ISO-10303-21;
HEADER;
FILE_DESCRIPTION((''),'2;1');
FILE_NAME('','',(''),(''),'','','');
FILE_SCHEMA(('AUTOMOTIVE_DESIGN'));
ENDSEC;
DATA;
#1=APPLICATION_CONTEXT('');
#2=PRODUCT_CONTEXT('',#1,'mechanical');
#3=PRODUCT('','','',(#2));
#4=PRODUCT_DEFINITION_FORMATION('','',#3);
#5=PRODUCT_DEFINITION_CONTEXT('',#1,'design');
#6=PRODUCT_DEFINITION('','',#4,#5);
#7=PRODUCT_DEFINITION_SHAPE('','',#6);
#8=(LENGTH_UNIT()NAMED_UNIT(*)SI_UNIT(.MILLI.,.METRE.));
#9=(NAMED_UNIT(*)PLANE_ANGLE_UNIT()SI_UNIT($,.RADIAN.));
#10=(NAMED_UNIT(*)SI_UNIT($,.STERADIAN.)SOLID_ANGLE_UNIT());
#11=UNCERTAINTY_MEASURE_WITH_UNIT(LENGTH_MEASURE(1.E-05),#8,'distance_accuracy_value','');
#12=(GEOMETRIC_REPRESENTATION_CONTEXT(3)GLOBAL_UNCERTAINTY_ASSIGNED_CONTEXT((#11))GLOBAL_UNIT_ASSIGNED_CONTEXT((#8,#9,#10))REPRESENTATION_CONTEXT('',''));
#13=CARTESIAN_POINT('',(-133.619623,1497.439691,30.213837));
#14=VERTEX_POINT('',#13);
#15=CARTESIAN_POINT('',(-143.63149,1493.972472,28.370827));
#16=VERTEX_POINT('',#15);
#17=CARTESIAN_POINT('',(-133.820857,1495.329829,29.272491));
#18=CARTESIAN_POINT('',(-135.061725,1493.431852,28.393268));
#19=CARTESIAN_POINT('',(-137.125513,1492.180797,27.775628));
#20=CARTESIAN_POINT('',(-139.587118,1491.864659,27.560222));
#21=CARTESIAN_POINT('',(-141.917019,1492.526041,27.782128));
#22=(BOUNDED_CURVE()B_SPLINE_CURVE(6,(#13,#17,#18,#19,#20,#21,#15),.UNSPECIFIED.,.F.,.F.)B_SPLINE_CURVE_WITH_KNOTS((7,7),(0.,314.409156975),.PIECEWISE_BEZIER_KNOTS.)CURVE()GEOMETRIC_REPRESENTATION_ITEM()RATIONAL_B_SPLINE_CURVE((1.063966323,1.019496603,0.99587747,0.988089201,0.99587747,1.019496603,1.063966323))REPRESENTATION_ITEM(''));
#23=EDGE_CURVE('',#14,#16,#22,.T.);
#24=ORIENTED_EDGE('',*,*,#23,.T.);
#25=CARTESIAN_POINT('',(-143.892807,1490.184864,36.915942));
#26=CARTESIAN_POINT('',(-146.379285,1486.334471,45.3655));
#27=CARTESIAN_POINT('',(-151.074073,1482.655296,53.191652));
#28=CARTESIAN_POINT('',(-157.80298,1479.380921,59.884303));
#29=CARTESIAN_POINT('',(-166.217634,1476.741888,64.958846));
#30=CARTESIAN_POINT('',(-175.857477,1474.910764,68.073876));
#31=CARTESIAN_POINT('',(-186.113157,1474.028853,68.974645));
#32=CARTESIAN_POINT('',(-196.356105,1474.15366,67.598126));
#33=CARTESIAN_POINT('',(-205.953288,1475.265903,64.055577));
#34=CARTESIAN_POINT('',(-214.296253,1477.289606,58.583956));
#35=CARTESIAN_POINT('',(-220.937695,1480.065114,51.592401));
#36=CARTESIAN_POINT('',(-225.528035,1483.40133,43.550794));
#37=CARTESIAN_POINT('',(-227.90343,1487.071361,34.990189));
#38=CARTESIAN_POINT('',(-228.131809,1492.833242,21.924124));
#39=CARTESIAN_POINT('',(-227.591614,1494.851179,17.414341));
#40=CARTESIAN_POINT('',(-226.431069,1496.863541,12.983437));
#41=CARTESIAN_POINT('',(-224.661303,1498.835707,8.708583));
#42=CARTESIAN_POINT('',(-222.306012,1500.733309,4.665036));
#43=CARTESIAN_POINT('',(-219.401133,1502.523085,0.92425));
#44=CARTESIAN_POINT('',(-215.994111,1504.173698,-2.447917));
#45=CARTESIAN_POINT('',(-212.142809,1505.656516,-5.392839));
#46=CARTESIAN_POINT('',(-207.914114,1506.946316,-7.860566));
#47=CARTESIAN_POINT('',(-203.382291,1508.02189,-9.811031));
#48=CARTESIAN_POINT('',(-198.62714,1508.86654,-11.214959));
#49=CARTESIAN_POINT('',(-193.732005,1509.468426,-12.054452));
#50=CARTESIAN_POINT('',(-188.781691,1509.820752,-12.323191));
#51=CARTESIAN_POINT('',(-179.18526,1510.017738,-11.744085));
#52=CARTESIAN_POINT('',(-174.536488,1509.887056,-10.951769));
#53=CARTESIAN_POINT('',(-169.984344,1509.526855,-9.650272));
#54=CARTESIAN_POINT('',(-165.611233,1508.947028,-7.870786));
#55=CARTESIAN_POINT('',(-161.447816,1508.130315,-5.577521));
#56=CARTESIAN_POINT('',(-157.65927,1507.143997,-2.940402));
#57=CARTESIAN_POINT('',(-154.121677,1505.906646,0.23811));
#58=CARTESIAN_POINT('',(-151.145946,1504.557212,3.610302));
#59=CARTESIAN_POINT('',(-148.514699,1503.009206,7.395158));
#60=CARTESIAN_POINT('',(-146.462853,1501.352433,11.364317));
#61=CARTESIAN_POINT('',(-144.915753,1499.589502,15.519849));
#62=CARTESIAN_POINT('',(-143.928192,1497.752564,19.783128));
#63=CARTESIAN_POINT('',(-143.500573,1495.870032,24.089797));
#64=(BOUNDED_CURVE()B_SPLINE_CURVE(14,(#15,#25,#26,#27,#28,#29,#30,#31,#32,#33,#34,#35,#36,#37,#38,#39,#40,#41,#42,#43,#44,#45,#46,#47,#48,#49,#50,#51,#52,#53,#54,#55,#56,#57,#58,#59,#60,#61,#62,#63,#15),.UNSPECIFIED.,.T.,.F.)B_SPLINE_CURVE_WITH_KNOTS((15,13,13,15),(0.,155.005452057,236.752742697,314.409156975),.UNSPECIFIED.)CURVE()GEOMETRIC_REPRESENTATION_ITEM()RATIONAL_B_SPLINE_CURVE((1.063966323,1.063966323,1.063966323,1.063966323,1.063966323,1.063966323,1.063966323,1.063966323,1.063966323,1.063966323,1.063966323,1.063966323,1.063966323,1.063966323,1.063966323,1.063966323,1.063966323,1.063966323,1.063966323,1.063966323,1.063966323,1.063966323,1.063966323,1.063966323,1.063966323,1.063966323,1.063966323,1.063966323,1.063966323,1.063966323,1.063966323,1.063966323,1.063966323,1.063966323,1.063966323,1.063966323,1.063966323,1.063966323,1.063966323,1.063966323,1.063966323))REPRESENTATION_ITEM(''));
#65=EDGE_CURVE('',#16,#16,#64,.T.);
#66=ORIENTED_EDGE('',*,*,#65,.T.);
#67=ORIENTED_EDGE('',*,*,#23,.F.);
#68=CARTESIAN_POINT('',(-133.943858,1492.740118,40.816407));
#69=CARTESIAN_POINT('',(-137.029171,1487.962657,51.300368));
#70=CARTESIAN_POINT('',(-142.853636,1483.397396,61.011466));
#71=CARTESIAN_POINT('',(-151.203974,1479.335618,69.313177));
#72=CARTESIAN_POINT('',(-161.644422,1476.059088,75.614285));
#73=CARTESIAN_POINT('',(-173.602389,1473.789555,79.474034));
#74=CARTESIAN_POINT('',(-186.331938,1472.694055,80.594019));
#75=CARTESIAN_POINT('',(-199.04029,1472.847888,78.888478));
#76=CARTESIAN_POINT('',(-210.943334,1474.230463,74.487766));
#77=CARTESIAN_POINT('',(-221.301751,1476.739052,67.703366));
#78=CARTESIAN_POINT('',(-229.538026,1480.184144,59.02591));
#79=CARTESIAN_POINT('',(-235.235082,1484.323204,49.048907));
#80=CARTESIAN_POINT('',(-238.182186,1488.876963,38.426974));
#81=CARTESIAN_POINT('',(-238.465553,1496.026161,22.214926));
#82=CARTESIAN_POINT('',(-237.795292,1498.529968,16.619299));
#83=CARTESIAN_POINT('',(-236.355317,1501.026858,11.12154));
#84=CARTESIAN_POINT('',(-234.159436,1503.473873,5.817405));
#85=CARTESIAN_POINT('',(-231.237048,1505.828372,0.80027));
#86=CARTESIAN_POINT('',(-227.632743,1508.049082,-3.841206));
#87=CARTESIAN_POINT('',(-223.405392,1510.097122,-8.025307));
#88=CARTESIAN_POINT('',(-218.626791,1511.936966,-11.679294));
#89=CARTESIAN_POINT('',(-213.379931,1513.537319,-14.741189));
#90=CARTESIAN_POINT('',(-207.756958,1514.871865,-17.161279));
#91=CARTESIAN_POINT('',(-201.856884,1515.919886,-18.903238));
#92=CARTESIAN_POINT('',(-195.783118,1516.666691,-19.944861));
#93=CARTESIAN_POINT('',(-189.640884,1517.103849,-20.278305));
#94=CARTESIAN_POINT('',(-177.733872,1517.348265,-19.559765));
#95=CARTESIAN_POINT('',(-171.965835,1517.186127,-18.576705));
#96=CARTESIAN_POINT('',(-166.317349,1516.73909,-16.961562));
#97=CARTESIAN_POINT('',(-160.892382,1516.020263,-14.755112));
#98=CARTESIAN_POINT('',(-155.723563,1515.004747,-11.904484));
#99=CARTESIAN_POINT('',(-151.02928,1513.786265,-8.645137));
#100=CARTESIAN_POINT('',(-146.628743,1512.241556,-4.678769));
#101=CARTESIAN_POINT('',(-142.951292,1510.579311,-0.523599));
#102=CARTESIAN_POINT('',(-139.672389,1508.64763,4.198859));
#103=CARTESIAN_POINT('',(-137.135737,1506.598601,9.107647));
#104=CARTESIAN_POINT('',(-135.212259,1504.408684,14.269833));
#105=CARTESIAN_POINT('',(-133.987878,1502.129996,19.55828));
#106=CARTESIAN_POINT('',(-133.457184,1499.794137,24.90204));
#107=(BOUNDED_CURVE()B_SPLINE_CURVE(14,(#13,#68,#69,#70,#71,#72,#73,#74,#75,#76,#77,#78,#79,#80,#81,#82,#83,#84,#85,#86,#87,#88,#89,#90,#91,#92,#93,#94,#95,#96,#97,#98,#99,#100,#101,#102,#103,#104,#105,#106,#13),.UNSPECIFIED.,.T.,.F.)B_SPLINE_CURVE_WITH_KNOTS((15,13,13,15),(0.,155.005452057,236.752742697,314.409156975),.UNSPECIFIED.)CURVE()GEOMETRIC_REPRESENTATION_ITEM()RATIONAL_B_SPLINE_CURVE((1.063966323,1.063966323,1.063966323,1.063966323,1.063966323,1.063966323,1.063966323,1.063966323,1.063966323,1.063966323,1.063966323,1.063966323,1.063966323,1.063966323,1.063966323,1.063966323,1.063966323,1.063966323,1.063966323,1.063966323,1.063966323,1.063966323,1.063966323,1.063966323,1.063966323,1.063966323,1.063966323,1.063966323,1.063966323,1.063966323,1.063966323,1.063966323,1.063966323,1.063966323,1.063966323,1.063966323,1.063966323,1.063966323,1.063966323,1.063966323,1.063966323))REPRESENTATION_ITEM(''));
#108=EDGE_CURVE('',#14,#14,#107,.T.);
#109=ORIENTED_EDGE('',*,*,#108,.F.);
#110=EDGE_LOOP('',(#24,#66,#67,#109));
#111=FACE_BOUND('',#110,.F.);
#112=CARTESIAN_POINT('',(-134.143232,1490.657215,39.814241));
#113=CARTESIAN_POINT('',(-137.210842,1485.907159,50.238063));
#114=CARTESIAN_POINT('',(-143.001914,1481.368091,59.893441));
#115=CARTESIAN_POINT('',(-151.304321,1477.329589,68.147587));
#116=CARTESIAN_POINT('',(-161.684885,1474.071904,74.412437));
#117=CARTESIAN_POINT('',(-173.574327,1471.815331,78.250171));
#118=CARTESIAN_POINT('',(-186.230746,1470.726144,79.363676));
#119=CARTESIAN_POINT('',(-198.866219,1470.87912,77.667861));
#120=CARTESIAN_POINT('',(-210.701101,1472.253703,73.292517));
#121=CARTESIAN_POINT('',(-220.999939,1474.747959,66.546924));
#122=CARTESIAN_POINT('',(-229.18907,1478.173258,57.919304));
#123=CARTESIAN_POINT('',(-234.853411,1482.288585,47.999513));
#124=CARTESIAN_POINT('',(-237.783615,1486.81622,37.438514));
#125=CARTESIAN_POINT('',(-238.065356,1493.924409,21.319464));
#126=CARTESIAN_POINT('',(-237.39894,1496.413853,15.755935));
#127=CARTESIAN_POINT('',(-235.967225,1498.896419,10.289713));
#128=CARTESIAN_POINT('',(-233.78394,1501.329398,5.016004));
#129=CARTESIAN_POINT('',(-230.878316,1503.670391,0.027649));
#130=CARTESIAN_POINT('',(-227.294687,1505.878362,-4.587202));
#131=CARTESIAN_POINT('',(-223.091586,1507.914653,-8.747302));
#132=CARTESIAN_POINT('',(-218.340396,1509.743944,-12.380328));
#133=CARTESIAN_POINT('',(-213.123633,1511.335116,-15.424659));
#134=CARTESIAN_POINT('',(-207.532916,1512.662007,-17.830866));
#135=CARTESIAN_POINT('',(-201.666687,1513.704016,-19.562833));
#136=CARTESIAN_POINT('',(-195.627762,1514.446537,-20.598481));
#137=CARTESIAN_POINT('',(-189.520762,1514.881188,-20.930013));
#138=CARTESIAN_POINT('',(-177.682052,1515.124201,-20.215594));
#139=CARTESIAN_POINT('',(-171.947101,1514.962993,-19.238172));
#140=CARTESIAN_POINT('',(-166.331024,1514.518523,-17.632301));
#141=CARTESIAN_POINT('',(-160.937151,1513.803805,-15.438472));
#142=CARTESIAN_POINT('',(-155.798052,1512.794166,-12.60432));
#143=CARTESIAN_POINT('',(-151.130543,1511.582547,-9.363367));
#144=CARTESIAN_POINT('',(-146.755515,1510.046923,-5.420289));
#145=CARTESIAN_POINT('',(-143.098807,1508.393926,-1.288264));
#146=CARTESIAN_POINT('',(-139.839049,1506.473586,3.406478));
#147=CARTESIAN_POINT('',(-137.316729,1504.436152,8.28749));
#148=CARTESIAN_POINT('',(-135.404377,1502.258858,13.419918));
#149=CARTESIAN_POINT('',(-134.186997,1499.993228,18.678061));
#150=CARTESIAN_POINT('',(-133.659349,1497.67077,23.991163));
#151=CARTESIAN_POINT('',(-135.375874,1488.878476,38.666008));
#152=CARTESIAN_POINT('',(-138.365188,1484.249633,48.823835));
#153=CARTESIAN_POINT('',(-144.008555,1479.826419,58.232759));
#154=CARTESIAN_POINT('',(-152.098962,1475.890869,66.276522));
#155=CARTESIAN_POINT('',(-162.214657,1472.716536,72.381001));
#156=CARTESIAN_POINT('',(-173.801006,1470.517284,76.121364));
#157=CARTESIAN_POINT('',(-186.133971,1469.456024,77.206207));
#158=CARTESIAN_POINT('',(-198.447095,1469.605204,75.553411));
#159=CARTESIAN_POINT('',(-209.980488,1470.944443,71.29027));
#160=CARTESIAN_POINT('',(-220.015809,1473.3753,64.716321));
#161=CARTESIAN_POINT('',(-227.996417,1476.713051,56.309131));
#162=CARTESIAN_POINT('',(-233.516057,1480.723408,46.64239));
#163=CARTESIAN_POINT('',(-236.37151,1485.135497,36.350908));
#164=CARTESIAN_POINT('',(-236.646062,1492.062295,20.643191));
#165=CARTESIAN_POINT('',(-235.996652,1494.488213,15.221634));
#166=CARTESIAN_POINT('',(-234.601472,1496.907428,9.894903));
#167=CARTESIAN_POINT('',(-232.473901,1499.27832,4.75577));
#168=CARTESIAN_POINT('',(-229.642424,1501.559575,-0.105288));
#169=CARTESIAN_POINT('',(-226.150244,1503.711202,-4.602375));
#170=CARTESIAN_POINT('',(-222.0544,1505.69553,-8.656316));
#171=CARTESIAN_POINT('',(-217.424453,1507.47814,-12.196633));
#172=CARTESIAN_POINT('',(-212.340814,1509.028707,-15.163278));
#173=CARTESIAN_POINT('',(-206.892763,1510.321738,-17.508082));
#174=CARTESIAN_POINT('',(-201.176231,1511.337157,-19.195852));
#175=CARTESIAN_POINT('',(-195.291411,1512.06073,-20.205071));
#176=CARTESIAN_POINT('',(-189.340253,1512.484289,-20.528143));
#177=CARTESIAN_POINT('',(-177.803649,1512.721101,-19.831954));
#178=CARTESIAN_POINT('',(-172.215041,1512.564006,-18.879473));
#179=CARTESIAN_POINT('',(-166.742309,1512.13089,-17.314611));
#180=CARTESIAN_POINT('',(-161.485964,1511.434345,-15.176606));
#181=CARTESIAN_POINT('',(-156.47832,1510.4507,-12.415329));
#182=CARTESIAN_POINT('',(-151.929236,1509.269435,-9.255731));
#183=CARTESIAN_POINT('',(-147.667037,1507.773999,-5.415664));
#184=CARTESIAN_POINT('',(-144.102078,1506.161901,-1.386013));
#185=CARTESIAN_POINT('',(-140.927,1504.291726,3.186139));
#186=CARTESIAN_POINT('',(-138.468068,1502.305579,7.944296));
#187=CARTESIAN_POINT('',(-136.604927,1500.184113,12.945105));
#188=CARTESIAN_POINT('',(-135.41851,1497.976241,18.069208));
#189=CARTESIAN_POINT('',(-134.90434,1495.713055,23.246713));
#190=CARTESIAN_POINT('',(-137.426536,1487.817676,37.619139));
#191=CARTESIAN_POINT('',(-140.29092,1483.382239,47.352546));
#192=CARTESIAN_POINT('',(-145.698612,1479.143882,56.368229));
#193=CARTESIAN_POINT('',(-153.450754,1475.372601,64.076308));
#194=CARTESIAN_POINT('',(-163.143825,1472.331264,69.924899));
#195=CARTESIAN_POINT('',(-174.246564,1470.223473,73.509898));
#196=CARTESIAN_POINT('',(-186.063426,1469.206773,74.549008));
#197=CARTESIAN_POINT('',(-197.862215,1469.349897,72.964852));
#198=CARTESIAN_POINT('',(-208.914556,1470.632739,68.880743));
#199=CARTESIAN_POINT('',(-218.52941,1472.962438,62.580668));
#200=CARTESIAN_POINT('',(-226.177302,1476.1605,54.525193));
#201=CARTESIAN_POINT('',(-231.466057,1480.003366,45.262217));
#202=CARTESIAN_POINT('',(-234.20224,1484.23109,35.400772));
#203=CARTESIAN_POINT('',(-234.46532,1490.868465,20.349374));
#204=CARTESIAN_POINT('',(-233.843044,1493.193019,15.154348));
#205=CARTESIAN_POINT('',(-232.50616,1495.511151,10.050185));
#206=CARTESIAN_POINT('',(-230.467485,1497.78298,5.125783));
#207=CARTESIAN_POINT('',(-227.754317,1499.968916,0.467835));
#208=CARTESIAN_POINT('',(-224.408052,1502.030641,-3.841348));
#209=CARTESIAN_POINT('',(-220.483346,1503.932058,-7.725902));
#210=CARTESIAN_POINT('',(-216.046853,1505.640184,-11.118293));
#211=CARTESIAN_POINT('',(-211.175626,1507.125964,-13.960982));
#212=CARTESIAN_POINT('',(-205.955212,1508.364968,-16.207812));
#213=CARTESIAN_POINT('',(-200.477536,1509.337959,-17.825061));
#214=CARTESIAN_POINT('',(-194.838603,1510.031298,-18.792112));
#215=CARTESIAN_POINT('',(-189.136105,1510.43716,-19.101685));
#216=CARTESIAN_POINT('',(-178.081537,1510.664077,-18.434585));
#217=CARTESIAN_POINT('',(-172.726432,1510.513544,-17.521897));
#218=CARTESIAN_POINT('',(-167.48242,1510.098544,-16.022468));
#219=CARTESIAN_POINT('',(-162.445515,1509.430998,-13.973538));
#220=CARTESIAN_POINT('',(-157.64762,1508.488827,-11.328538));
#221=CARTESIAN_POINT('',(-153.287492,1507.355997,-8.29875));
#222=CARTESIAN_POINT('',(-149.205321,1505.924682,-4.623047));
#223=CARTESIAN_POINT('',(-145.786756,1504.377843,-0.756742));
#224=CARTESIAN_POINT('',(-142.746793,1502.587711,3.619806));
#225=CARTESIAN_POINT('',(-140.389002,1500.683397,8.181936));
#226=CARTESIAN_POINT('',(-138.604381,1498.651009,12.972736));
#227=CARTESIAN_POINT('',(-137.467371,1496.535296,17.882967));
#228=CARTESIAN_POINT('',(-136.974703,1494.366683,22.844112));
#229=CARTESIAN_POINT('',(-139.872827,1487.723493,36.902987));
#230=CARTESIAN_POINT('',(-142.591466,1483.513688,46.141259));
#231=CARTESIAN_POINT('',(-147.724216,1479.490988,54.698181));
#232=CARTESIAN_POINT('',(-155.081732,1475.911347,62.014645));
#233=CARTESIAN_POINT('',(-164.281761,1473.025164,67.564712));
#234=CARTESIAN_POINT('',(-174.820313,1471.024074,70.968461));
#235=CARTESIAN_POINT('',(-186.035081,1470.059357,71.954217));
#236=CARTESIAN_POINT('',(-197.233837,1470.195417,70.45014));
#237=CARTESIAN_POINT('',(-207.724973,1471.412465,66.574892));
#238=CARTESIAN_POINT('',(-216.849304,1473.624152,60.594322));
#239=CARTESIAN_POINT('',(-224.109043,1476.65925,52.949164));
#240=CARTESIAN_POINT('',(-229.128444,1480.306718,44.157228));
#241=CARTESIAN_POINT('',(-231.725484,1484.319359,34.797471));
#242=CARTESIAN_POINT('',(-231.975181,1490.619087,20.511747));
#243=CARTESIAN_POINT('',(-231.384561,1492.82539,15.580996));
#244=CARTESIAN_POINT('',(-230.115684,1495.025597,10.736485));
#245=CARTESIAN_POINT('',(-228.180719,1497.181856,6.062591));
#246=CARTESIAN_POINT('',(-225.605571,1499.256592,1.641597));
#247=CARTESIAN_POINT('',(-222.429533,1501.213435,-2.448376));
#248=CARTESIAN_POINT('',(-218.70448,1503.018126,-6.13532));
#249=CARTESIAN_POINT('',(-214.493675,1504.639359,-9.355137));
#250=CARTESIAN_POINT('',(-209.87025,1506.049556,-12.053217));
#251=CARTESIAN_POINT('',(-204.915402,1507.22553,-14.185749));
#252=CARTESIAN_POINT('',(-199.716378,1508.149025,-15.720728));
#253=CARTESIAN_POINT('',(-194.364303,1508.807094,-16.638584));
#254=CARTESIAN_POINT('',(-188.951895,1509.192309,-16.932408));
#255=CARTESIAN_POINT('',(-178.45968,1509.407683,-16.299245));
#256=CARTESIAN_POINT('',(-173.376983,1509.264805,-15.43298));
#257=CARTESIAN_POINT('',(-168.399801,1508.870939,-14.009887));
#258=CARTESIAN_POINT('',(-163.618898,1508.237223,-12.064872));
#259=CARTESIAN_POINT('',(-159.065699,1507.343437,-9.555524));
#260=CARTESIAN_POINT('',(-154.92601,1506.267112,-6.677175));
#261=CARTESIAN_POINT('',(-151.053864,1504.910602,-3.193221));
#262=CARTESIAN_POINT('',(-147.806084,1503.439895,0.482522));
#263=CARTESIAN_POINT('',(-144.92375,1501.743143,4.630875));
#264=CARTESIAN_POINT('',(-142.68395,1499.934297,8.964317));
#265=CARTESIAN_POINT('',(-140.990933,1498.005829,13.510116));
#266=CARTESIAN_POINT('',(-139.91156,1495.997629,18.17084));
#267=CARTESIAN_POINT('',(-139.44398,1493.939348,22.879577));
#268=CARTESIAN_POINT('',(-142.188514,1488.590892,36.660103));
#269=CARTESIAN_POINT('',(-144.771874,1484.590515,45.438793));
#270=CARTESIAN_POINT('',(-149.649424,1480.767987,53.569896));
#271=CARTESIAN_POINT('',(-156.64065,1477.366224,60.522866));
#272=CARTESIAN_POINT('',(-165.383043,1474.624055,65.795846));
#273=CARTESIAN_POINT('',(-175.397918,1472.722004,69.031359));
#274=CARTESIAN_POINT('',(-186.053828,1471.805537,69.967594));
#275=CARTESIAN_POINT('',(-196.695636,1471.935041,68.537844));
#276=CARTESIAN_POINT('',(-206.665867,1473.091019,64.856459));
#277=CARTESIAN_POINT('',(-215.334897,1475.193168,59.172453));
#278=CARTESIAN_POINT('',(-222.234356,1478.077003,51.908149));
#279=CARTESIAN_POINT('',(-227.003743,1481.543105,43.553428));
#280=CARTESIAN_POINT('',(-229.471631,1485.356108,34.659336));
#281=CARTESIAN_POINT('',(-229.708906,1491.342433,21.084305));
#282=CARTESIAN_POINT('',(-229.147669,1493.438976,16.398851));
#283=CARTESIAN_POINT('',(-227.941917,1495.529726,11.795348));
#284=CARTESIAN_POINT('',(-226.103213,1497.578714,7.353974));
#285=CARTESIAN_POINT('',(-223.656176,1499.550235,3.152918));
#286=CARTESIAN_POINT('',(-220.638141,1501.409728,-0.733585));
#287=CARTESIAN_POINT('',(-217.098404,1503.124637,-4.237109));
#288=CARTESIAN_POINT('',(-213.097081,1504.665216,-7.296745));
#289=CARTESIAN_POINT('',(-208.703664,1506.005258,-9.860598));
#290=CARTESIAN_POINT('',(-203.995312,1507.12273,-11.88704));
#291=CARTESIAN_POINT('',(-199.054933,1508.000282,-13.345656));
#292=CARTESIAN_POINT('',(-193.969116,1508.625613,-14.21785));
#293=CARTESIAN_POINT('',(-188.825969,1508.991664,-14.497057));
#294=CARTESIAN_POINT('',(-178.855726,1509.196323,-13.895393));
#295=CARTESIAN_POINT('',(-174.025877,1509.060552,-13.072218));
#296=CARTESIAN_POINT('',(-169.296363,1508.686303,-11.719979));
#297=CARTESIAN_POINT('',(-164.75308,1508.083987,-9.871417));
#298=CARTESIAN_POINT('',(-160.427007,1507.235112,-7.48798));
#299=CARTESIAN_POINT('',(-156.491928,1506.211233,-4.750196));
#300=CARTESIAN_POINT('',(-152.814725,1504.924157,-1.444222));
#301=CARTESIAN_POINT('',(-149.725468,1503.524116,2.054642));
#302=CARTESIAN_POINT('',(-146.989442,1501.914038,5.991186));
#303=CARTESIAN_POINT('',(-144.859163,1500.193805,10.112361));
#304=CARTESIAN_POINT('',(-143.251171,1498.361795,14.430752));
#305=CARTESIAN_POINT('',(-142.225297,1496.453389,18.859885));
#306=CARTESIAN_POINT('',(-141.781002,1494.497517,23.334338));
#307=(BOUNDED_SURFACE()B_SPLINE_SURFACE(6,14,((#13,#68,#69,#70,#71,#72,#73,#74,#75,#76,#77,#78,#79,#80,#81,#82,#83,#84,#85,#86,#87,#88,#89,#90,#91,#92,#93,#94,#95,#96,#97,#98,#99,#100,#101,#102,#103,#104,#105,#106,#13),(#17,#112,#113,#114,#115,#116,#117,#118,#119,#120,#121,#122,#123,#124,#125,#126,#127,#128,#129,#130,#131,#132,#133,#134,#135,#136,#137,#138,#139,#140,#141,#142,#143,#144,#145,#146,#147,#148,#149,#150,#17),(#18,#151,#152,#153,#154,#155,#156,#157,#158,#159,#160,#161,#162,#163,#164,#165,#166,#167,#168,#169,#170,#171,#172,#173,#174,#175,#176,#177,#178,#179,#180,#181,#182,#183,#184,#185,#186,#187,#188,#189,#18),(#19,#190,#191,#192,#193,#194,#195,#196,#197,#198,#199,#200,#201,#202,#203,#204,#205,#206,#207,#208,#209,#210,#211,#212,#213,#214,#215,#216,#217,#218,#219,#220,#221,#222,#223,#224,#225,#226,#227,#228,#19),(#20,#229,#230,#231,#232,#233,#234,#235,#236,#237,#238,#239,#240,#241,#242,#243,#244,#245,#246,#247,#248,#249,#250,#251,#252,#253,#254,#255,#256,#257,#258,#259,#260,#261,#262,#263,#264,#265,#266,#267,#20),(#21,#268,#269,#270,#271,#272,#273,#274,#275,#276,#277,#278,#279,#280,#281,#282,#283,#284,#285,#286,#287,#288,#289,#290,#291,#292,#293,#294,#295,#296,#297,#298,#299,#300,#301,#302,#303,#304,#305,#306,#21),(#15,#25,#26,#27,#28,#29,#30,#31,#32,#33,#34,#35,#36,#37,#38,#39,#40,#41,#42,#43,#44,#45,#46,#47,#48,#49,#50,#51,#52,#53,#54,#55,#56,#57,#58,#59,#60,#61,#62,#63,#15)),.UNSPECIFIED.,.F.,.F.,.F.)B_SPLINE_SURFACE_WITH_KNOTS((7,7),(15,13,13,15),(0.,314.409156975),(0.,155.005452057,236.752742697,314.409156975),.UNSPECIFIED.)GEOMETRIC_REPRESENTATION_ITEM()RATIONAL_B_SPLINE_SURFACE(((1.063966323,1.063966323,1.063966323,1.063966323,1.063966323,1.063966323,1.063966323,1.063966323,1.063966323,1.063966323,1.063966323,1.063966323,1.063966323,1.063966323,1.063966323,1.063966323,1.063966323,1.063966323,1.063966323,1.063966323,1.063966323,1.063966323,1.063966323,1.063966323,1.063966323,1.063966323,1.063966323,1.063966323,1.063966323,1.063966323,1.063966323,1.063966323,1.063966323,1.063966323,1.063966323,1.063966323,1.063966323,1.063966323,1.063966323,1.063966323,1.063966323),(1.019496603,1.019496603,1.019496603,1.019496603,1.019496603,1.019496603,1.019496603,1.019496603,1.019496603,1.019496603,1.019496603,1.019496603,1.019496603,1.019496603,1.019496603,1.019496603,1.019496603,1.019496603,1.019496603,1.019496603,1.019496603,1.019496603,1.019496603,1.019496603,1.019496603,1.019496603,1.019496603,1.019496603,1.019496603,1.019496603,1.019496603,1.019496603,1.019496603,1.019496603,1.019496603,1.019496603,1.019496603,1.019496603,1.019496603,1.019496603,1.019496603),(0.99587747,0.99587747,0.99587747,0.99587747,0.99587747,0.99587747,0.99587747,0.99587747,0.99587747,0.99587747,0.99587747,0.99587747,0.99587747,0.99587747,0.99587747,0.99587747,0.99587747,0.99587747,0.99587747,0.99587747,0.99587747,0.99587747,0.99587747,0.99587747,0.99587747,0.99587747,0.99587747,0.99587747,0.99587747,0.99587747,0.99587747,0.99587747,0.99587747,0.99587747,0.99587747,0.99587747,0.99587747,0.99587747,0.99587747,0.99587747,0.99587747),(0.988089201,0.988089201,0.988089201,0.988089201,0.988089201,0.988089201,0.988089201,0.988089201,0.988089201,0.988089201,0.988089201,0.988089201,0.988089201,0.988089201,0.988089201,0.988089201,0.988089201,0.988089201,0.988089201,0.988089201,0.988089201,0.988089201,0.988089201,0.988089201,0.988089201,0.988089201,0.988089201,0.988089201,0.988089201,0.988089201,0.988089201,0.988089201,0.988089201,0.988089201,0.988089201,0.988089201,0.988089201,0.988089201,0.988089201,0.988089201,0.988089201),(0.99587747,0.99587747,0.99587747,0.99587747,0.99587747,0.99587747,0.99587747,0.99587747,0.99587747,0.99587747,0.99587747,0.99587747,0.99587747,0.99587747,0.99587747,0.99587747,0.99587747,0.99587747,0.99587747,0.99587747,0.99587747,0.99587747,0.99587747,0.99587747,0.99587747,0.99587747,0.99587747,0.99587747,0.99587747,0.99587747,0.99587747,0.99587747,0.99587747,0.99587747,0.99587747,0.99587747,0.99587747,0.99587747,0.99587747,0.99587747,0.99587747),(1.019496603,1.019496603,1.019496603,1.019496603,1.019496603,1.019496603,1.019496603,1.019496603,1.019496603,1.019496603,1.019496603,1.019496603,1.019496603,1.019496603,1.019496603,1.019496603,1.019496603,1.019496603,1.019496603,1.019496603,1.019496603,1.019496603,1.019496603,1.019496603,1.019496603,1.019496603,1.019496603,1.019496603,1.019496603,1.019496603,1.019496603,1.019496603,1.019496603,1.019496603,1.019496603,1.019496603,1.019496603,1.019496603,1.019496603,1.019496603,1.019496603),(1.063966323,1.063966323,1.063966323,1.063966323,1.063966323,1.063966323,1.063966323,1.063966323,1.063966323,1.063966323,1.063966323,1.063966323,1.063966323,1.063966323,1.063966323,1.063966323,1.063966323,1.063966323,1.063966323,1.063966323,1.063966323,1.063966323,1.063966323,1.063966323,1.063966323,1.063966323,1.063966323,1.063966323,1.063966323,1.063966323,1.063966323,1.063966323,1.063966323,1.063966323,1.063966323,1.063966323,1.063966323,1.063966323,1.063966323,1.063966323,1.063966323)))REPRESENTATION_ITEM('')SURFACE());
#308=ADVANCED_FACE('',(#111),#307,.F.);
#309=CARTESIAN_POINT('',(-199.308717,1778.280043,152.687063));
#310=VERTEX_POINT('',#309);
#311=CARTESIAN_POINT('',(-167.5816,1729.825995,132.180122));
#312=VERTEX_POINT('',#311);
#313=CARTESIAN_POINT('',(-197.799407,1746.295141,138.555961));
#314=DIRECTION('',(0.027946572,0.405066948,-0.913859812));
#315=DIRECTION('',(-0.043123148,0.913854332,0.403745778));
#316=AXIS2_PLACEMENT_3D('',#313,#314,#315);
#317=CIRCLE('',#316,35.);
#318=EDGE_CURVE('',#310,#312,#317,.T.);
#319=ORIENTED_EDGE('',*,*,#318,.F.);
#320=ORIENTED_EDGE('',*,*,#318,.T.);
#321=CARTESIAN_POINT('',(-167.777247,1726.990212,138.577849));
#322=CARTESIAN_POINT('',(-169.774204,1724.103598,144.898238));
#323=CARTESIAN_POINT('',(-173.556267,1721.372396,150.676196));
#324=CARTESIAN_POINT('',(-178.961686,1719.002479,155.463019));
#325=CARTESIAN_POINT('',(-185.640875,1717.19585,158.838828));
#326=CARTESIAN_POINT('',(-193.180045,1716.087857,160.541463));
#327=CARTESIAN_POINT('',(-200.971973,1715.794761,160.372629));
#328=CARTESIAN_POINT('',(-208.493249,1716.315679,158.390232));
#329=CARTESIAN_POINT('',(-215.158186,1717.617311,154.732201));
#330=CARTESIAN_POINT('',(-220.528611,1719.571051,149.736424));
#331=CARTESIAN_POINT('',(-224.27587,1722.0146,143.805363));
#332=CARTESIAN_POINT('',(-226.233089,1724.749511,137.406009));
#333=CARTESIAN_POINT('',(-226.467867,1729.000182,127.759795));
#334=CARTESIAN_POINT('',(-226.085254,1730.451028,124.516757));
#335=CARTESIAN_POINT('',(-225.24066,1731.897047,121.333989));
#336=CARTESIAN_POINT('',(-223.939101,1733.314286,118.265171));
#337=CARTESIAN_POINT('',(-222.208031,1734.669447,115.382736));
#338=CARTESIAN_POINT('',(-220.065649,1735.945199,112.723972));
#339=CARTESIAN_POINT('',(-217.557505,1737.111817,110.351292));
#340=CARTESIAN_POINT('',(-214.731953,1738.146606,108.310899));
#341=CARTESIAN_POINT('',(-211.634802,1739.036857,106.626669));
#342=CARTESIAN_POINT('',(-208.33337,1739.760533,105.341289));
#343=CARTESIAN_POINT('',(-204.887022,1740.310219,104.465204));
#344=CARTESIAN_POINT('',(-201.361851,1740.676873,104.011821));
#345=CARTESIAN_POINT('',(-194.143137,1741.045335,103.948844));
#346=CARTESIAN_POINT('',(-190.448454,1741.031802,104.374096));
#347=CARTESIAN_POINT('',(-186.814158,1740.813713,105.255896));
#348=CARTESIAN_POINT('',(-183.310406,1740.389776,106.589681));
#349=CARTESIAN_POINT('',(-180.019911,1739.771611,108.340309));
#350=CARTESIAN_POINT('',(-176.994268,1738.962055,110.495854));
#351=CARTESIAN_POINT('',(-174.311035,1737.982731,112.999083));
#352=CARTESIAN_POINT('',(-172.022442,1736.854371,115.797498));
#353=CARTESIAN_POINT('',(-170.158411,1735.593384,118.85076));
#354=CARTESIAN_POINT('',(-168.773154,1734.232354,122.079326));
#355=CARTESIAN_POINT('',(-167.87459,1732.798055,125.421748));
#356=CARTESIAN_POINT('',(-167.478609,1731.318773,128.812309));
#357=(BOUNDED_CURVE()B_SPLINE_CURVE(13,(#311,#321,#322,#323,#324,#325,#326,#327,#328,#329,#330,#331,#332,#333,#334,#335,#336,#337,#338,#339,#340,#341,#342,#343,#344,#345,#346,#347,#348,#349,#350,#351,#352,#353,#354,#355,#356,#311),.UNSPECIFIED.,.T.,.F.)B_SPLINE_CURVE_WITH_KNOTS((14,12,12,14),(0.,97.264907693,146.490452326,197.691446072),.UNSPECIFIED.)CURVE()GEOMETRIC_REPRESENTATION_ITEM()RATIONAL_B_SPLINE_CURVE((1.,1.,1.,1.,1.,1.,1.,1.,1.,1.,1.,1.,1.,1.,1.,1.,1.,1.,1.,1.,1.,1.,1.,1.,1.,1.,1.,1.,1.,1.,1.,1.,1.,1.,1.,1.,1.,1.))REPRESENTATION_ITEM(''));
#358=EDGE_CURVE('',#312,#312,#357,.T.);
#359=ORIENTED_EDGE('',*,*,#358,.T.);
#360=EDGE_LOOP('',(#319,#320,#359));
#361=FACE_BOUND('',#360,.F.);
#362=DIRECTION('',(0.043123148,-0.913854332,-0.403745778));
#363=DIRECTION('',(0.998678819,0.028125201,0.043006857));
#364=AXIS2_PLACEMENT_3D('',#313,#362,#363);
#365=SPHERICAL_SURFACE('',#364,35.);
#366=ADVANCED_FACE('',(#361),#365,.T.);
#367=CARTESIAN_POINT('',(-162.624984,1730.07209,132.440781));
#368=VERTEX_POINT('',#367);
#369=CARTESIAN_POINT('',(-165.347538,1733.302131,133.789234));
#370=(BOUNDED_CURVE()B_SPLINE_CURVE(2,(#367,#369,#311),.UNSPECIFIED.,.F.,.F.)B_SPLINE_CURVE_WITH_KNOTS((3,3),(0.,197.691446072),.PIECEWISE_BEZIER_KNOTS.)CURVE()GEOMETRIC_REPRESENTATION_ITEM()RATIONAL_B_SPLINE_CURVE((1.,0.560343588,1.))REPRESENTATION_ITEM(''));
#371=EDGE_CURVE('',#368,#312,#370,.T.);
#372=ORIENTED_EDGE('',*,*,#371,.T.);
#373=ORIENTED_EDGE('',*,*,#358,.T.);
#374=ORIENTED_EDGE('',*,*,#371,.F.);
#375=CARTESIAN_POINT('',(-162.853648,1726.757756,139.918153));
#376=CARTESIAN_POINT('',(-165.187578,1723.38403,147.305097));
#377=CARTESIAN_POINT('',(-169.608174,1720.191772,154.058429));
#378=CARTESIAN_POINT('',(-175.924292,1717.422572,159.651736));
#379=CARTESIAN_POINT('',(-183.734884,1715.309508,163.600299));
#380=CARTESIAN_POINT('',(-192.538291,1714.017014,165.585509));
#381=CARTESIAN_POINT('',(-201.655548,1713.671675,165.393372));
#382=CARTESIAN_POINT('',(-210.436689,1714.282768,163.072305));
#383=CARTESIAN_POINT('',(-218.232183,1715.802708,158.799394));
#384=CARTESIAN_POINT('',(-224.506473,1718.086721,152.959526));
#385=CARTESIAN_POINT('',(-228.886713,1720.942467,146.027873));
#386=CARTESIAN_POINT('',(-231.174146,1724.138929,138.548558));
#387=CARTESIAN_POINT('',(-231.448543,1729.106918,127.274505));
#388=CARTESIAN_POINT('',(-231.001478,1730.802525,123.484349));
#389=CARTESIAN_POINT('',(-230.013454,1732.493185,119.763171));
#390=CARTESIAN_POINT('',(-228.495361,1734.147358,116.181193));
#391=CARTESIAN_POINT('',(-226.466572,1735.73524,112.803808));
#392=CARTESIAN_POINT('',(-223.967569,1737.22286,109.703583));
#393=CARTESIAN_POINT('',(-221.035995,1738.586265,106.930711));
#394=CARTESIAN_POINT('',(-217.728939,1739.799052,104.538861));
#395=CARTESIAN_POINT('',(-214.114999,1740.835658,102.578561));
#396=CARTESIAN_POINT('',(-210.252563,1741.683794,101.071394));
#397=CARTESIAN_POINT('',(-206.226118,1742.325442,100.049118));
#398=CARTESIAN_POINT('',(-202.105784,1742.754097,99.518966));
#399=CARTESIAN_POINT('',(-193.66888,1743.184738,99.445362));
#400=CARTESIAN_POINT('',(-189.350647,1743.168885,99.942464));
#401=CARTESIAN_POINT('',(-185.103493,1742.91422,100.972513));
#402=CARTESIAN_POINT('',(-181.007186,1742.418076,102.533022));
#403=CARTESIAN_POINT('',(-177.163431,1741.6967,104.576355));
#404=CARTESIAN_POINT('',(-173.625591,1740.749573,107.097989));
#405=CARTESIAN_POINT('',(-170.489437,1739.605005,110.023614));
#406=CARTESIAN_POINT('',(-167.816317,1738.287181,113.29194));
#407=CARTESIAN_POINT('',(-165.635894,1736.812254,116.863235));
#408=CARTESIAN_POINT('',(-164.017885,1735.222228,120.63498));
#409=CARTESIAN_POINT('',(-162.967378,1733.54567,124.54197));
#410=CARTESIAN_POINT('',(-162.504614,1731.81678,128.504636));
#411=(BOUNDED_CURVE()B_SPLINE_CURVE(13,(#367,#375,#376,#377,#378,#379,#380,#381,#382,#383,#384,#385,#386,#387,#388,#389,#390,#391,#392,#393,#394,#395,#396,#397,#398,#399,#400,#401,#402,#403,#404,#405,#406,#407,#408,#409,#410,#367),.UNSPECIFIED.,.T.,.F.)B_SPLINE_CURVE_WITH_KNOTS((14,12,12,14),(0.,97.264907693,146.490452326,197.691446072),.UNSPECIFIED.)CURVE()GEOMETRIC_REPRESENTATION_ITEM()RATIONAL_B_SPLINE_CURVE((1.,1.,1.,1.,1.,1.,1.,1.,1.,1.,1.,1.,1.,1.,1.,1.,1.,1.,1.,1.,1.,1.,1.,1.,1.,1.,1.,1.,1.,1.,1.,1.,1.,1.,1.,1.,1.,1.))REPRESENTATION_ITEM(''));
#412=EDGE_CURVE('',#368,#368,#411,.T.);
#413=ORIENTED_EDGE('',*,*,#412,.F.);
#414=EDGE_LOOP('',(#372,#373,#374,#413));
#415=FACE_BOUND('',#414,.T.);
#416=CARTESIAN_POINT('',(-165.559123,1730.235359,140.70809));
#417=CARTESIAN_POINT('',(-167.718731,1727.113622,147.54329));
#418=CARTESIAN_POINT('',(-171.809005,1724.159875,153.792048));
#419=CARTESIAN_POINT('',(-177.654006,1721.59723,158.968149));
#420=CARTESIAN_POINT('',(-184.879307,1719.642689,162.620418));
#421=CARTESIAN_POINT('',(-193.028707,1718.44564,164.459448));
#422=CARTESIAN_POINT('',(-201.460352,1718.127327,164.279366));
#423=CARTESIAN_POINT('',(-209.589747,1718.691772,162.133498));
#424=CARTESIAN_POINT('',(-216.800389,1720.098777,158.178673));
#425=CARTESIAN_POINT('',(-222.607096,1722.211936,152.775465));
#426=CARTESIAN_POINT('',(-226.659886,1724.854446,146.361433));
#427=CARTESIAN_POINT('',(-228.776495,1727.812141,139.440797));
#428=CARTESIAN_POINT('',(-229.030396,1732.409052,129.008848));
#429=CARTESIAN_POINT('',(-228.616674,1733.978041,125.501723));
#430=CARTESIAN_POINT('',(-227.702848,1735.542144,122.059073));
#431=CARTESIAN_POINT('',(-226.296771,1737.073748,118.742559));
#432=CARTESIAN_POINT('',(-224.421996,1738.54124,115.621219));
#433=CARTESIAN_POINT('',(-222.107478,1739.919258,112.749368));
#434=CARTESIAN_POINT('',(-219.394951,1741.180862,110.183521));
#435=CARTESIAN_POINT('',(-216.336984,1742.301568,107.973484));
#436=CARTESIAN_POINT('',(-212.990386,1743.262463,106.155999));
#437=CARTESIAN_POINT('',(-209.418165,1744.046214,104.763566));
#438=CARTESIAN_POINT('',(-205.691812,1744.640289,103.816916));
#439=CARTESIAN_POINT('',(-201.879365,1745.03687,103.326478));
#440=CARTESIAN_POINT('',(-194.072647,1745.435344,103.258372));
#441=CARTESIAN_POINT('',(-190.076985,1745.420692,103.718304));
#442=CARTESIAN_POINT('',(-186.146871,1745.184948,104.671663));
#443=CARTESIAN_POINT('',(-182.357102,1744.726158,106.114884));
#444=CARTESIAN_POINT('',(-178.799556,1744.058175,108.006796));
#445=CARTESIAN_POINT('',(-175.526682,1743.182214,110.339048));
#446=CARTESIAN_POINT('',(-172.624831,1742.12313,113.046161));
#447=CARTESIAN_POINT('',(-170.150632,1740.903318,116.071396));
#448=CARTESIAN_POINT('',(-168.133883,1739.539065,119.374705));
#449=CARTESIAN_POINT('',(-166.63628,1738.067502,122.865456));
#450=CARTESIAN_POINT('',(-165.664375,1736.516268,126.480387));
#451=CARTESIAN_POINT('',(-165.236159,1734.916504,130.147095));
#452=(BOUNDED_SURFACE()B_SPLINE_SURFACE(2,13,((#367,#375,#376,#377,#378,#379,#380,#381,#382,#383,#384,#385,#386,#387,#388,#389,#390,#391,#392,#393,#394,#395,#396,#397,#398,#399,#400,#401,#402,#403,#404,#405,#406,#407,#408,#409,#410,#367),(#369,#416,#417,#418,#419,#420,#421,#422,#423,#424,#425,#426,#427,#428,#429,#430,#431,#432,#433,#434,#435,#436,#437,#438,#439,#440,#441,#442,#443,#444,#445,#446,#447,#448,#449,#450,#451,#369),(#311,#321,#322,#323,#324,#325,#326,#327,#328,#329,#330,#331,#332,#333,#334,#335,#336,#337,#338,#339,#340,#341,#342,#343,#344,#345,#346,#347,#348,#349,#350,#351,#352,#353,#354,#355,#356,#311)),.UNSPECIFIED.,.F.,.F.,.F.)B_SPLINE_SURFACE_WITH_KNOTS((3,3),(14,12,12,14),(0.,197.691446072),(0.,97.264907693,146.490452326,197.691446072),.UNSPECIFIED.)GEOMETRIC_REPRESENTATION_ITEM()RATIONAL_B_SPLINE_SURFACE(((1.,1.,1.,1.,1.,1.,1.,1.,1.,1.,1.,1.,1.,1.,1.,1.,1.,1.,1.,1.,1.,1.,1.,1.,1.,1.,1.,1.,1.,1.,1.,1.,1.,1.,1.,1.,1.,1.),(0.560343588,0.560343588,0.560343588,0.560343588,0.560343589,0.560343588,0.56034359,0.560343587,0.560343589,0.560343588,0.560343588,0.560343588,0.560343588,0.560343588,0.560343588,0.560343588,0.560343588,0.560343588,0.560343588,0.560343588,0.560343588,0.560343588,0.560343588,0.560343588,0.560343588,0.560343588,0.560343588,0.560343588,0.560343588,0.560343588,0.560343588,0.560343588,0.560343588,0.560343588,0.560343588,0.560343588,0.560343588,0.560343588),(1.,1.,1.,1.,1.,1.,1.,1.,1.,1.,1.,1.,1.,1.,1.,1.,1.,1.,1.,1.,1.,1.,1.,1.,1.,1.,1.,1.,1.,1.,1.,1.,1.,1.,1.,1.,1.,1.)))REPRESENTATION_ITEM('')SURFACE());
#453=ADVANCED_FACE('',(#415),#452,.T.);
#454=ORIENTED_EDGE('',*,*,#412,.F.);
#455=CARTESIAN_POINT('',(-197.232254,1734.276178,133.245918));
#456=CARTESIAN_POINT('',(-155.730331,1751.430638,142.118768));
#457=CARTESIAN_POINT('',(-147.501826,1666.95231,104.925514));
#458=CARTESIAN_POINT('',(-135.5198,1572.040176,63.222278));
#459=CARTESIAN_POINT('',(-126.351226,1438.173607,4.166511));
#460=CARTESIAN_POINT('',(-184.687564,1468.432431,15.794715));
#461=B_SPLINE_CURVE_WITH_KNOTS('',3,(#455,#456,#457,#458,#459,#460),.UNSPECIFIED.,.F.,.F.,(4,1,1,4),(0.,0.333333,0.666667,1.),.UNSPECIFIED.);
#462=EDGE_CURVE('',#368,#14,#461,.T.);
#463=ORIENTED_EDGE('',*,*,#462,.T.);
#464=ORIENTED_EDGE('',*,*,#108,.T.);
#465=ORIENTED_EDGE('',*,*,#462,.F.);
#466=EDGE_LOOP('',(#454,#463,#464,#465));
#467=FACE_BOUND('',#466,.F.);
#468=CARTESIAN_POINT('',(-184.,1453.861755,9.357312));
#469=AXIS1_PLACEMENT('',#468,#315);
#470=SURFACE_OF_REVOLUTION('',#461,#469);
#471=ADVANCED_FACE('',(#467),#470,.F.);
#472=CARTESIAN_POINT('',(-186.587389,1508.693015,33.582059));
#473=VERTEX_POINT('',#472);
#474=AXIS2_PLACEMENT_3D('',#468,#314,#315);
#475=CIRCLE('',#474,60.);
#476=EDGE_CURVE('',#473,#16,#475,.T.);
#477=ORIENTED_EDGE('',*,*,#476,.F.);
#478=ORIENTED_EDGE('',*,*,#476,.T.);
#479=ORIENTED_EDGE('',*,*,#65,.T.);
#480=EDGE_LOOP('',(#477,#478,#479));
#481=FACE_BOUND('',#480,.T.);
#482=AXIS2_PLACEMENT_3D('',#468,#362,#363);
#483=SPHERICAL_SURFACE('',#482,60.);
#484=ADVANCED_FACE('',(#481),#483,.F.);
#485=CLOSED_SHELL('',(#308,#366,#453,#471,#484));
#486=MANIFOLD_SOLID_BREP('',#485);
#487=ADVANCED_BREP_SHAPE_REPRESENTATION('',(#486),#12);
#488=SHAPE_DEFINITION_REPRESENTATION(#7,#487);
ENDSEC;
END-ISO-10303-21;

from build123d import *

# Parameters (mm, degrees)
FILLET064_R             = 6
FILLET065_R             = 3
BODY040_ROLL_ANGLE      = 177.30561
BODY040_PITCH_ANGLE     = -23.812555
BODY040_PLACEMENT_ANGLE = 92.701681


with BuildPart() as part:
    # Sketch135 → Revolution070 (revolve)
    with BuildSketch(Plane.XY):
        with BuildLine():
            Line((15.9442, 0), (306.848053, 0))
            add(Edge.make_bspline(
                [(306.848053, 0), (324.317413, 42.311157), (231.745069, 46.553256), (127.654996, 54.056504), (-18.918443, 56.908137), (15.9442, 0)],
                knots=[0, 0, 0, 0, 0.333333, 0.666667, 1, 1, 1, 1], degree=3))
        make_face()
    revolve(axis=Axis((0, 0, 0), (1, 0, 0)))

    # Sketch136 → Groove063 (revolve, cut)
    with BuildSketch(Plane.XY):
        with BuildLine():
            Line((-60, 0), (60, 0))
            ThreePointArc((60, 0), (0, 60), (-60, 0))
        make_face()
    revolve(axis=Axis((0, 0, 0), (1, 0, 0)), mode=Mode.SUBTRACT)

    # Fillet064
    fillet064_edges = [part.edges().sort_by_distance(p)[0] for p in [
        (33.106232, -50.039758, 0),
    ]]
    fillet(fillet064_edges, radius=FILLET064_R)

    # Sketch137 → Groove064 (revolve, cut)
    with BuildSketch(Plane.XY):
        with BuildLine():
            Line((285, 0), (355, 0))
            ThreePointArc((355, 0), (320, 35), (285, 0))
        make_face()
    revolve(axis=Axis((0, 0, 0), (1, 0, 0)), mode=Mode.SUBTRACT)

    # Fillet065
    fillet065_edges = [part.edges().sort_by_distance(p)[0] for p in [
        (304.668851, -31.463564, 0),
    ]]
    fillet(fillet065_edges, radius=FILLET065_R)

    # Sketch137 → Revolution071 (revolve)
    with BuildSketch(Plane.XY):
        with BuildLine():
            Line((285, 0), (355, 0))
            ThreePointArc((355, 0), (320, 35), (285, 0))
        make_face()
    revolve(axis=Axis((0, 0, 0), (1, 0, 0)))


with BuildPart() as part_1:
    # Body040 roll: moved
    add(part.part.rotate(Axis((0, 0, 0), (1, 0, 0)), BODY040_ROLL_ANGLE))


with BuildPart() as part_2:
    # Body040 pitch: moved
    add(part_1.part.rotate(Axis((0, 0, 0), (0, 1, 0)), BODY040_PITCH_ANGLE))


with BuildPart() as part_3:
    # Body040 placement: moved
    add(part_2.part.moved(Location((-184, 1453.861755, 9.357312))).rotate(Axis((-184, 1453.861755, 9.357312), (0, 0, 1)), BODY040_PLACEMENT_ANGLE))


solid = part_3.part
